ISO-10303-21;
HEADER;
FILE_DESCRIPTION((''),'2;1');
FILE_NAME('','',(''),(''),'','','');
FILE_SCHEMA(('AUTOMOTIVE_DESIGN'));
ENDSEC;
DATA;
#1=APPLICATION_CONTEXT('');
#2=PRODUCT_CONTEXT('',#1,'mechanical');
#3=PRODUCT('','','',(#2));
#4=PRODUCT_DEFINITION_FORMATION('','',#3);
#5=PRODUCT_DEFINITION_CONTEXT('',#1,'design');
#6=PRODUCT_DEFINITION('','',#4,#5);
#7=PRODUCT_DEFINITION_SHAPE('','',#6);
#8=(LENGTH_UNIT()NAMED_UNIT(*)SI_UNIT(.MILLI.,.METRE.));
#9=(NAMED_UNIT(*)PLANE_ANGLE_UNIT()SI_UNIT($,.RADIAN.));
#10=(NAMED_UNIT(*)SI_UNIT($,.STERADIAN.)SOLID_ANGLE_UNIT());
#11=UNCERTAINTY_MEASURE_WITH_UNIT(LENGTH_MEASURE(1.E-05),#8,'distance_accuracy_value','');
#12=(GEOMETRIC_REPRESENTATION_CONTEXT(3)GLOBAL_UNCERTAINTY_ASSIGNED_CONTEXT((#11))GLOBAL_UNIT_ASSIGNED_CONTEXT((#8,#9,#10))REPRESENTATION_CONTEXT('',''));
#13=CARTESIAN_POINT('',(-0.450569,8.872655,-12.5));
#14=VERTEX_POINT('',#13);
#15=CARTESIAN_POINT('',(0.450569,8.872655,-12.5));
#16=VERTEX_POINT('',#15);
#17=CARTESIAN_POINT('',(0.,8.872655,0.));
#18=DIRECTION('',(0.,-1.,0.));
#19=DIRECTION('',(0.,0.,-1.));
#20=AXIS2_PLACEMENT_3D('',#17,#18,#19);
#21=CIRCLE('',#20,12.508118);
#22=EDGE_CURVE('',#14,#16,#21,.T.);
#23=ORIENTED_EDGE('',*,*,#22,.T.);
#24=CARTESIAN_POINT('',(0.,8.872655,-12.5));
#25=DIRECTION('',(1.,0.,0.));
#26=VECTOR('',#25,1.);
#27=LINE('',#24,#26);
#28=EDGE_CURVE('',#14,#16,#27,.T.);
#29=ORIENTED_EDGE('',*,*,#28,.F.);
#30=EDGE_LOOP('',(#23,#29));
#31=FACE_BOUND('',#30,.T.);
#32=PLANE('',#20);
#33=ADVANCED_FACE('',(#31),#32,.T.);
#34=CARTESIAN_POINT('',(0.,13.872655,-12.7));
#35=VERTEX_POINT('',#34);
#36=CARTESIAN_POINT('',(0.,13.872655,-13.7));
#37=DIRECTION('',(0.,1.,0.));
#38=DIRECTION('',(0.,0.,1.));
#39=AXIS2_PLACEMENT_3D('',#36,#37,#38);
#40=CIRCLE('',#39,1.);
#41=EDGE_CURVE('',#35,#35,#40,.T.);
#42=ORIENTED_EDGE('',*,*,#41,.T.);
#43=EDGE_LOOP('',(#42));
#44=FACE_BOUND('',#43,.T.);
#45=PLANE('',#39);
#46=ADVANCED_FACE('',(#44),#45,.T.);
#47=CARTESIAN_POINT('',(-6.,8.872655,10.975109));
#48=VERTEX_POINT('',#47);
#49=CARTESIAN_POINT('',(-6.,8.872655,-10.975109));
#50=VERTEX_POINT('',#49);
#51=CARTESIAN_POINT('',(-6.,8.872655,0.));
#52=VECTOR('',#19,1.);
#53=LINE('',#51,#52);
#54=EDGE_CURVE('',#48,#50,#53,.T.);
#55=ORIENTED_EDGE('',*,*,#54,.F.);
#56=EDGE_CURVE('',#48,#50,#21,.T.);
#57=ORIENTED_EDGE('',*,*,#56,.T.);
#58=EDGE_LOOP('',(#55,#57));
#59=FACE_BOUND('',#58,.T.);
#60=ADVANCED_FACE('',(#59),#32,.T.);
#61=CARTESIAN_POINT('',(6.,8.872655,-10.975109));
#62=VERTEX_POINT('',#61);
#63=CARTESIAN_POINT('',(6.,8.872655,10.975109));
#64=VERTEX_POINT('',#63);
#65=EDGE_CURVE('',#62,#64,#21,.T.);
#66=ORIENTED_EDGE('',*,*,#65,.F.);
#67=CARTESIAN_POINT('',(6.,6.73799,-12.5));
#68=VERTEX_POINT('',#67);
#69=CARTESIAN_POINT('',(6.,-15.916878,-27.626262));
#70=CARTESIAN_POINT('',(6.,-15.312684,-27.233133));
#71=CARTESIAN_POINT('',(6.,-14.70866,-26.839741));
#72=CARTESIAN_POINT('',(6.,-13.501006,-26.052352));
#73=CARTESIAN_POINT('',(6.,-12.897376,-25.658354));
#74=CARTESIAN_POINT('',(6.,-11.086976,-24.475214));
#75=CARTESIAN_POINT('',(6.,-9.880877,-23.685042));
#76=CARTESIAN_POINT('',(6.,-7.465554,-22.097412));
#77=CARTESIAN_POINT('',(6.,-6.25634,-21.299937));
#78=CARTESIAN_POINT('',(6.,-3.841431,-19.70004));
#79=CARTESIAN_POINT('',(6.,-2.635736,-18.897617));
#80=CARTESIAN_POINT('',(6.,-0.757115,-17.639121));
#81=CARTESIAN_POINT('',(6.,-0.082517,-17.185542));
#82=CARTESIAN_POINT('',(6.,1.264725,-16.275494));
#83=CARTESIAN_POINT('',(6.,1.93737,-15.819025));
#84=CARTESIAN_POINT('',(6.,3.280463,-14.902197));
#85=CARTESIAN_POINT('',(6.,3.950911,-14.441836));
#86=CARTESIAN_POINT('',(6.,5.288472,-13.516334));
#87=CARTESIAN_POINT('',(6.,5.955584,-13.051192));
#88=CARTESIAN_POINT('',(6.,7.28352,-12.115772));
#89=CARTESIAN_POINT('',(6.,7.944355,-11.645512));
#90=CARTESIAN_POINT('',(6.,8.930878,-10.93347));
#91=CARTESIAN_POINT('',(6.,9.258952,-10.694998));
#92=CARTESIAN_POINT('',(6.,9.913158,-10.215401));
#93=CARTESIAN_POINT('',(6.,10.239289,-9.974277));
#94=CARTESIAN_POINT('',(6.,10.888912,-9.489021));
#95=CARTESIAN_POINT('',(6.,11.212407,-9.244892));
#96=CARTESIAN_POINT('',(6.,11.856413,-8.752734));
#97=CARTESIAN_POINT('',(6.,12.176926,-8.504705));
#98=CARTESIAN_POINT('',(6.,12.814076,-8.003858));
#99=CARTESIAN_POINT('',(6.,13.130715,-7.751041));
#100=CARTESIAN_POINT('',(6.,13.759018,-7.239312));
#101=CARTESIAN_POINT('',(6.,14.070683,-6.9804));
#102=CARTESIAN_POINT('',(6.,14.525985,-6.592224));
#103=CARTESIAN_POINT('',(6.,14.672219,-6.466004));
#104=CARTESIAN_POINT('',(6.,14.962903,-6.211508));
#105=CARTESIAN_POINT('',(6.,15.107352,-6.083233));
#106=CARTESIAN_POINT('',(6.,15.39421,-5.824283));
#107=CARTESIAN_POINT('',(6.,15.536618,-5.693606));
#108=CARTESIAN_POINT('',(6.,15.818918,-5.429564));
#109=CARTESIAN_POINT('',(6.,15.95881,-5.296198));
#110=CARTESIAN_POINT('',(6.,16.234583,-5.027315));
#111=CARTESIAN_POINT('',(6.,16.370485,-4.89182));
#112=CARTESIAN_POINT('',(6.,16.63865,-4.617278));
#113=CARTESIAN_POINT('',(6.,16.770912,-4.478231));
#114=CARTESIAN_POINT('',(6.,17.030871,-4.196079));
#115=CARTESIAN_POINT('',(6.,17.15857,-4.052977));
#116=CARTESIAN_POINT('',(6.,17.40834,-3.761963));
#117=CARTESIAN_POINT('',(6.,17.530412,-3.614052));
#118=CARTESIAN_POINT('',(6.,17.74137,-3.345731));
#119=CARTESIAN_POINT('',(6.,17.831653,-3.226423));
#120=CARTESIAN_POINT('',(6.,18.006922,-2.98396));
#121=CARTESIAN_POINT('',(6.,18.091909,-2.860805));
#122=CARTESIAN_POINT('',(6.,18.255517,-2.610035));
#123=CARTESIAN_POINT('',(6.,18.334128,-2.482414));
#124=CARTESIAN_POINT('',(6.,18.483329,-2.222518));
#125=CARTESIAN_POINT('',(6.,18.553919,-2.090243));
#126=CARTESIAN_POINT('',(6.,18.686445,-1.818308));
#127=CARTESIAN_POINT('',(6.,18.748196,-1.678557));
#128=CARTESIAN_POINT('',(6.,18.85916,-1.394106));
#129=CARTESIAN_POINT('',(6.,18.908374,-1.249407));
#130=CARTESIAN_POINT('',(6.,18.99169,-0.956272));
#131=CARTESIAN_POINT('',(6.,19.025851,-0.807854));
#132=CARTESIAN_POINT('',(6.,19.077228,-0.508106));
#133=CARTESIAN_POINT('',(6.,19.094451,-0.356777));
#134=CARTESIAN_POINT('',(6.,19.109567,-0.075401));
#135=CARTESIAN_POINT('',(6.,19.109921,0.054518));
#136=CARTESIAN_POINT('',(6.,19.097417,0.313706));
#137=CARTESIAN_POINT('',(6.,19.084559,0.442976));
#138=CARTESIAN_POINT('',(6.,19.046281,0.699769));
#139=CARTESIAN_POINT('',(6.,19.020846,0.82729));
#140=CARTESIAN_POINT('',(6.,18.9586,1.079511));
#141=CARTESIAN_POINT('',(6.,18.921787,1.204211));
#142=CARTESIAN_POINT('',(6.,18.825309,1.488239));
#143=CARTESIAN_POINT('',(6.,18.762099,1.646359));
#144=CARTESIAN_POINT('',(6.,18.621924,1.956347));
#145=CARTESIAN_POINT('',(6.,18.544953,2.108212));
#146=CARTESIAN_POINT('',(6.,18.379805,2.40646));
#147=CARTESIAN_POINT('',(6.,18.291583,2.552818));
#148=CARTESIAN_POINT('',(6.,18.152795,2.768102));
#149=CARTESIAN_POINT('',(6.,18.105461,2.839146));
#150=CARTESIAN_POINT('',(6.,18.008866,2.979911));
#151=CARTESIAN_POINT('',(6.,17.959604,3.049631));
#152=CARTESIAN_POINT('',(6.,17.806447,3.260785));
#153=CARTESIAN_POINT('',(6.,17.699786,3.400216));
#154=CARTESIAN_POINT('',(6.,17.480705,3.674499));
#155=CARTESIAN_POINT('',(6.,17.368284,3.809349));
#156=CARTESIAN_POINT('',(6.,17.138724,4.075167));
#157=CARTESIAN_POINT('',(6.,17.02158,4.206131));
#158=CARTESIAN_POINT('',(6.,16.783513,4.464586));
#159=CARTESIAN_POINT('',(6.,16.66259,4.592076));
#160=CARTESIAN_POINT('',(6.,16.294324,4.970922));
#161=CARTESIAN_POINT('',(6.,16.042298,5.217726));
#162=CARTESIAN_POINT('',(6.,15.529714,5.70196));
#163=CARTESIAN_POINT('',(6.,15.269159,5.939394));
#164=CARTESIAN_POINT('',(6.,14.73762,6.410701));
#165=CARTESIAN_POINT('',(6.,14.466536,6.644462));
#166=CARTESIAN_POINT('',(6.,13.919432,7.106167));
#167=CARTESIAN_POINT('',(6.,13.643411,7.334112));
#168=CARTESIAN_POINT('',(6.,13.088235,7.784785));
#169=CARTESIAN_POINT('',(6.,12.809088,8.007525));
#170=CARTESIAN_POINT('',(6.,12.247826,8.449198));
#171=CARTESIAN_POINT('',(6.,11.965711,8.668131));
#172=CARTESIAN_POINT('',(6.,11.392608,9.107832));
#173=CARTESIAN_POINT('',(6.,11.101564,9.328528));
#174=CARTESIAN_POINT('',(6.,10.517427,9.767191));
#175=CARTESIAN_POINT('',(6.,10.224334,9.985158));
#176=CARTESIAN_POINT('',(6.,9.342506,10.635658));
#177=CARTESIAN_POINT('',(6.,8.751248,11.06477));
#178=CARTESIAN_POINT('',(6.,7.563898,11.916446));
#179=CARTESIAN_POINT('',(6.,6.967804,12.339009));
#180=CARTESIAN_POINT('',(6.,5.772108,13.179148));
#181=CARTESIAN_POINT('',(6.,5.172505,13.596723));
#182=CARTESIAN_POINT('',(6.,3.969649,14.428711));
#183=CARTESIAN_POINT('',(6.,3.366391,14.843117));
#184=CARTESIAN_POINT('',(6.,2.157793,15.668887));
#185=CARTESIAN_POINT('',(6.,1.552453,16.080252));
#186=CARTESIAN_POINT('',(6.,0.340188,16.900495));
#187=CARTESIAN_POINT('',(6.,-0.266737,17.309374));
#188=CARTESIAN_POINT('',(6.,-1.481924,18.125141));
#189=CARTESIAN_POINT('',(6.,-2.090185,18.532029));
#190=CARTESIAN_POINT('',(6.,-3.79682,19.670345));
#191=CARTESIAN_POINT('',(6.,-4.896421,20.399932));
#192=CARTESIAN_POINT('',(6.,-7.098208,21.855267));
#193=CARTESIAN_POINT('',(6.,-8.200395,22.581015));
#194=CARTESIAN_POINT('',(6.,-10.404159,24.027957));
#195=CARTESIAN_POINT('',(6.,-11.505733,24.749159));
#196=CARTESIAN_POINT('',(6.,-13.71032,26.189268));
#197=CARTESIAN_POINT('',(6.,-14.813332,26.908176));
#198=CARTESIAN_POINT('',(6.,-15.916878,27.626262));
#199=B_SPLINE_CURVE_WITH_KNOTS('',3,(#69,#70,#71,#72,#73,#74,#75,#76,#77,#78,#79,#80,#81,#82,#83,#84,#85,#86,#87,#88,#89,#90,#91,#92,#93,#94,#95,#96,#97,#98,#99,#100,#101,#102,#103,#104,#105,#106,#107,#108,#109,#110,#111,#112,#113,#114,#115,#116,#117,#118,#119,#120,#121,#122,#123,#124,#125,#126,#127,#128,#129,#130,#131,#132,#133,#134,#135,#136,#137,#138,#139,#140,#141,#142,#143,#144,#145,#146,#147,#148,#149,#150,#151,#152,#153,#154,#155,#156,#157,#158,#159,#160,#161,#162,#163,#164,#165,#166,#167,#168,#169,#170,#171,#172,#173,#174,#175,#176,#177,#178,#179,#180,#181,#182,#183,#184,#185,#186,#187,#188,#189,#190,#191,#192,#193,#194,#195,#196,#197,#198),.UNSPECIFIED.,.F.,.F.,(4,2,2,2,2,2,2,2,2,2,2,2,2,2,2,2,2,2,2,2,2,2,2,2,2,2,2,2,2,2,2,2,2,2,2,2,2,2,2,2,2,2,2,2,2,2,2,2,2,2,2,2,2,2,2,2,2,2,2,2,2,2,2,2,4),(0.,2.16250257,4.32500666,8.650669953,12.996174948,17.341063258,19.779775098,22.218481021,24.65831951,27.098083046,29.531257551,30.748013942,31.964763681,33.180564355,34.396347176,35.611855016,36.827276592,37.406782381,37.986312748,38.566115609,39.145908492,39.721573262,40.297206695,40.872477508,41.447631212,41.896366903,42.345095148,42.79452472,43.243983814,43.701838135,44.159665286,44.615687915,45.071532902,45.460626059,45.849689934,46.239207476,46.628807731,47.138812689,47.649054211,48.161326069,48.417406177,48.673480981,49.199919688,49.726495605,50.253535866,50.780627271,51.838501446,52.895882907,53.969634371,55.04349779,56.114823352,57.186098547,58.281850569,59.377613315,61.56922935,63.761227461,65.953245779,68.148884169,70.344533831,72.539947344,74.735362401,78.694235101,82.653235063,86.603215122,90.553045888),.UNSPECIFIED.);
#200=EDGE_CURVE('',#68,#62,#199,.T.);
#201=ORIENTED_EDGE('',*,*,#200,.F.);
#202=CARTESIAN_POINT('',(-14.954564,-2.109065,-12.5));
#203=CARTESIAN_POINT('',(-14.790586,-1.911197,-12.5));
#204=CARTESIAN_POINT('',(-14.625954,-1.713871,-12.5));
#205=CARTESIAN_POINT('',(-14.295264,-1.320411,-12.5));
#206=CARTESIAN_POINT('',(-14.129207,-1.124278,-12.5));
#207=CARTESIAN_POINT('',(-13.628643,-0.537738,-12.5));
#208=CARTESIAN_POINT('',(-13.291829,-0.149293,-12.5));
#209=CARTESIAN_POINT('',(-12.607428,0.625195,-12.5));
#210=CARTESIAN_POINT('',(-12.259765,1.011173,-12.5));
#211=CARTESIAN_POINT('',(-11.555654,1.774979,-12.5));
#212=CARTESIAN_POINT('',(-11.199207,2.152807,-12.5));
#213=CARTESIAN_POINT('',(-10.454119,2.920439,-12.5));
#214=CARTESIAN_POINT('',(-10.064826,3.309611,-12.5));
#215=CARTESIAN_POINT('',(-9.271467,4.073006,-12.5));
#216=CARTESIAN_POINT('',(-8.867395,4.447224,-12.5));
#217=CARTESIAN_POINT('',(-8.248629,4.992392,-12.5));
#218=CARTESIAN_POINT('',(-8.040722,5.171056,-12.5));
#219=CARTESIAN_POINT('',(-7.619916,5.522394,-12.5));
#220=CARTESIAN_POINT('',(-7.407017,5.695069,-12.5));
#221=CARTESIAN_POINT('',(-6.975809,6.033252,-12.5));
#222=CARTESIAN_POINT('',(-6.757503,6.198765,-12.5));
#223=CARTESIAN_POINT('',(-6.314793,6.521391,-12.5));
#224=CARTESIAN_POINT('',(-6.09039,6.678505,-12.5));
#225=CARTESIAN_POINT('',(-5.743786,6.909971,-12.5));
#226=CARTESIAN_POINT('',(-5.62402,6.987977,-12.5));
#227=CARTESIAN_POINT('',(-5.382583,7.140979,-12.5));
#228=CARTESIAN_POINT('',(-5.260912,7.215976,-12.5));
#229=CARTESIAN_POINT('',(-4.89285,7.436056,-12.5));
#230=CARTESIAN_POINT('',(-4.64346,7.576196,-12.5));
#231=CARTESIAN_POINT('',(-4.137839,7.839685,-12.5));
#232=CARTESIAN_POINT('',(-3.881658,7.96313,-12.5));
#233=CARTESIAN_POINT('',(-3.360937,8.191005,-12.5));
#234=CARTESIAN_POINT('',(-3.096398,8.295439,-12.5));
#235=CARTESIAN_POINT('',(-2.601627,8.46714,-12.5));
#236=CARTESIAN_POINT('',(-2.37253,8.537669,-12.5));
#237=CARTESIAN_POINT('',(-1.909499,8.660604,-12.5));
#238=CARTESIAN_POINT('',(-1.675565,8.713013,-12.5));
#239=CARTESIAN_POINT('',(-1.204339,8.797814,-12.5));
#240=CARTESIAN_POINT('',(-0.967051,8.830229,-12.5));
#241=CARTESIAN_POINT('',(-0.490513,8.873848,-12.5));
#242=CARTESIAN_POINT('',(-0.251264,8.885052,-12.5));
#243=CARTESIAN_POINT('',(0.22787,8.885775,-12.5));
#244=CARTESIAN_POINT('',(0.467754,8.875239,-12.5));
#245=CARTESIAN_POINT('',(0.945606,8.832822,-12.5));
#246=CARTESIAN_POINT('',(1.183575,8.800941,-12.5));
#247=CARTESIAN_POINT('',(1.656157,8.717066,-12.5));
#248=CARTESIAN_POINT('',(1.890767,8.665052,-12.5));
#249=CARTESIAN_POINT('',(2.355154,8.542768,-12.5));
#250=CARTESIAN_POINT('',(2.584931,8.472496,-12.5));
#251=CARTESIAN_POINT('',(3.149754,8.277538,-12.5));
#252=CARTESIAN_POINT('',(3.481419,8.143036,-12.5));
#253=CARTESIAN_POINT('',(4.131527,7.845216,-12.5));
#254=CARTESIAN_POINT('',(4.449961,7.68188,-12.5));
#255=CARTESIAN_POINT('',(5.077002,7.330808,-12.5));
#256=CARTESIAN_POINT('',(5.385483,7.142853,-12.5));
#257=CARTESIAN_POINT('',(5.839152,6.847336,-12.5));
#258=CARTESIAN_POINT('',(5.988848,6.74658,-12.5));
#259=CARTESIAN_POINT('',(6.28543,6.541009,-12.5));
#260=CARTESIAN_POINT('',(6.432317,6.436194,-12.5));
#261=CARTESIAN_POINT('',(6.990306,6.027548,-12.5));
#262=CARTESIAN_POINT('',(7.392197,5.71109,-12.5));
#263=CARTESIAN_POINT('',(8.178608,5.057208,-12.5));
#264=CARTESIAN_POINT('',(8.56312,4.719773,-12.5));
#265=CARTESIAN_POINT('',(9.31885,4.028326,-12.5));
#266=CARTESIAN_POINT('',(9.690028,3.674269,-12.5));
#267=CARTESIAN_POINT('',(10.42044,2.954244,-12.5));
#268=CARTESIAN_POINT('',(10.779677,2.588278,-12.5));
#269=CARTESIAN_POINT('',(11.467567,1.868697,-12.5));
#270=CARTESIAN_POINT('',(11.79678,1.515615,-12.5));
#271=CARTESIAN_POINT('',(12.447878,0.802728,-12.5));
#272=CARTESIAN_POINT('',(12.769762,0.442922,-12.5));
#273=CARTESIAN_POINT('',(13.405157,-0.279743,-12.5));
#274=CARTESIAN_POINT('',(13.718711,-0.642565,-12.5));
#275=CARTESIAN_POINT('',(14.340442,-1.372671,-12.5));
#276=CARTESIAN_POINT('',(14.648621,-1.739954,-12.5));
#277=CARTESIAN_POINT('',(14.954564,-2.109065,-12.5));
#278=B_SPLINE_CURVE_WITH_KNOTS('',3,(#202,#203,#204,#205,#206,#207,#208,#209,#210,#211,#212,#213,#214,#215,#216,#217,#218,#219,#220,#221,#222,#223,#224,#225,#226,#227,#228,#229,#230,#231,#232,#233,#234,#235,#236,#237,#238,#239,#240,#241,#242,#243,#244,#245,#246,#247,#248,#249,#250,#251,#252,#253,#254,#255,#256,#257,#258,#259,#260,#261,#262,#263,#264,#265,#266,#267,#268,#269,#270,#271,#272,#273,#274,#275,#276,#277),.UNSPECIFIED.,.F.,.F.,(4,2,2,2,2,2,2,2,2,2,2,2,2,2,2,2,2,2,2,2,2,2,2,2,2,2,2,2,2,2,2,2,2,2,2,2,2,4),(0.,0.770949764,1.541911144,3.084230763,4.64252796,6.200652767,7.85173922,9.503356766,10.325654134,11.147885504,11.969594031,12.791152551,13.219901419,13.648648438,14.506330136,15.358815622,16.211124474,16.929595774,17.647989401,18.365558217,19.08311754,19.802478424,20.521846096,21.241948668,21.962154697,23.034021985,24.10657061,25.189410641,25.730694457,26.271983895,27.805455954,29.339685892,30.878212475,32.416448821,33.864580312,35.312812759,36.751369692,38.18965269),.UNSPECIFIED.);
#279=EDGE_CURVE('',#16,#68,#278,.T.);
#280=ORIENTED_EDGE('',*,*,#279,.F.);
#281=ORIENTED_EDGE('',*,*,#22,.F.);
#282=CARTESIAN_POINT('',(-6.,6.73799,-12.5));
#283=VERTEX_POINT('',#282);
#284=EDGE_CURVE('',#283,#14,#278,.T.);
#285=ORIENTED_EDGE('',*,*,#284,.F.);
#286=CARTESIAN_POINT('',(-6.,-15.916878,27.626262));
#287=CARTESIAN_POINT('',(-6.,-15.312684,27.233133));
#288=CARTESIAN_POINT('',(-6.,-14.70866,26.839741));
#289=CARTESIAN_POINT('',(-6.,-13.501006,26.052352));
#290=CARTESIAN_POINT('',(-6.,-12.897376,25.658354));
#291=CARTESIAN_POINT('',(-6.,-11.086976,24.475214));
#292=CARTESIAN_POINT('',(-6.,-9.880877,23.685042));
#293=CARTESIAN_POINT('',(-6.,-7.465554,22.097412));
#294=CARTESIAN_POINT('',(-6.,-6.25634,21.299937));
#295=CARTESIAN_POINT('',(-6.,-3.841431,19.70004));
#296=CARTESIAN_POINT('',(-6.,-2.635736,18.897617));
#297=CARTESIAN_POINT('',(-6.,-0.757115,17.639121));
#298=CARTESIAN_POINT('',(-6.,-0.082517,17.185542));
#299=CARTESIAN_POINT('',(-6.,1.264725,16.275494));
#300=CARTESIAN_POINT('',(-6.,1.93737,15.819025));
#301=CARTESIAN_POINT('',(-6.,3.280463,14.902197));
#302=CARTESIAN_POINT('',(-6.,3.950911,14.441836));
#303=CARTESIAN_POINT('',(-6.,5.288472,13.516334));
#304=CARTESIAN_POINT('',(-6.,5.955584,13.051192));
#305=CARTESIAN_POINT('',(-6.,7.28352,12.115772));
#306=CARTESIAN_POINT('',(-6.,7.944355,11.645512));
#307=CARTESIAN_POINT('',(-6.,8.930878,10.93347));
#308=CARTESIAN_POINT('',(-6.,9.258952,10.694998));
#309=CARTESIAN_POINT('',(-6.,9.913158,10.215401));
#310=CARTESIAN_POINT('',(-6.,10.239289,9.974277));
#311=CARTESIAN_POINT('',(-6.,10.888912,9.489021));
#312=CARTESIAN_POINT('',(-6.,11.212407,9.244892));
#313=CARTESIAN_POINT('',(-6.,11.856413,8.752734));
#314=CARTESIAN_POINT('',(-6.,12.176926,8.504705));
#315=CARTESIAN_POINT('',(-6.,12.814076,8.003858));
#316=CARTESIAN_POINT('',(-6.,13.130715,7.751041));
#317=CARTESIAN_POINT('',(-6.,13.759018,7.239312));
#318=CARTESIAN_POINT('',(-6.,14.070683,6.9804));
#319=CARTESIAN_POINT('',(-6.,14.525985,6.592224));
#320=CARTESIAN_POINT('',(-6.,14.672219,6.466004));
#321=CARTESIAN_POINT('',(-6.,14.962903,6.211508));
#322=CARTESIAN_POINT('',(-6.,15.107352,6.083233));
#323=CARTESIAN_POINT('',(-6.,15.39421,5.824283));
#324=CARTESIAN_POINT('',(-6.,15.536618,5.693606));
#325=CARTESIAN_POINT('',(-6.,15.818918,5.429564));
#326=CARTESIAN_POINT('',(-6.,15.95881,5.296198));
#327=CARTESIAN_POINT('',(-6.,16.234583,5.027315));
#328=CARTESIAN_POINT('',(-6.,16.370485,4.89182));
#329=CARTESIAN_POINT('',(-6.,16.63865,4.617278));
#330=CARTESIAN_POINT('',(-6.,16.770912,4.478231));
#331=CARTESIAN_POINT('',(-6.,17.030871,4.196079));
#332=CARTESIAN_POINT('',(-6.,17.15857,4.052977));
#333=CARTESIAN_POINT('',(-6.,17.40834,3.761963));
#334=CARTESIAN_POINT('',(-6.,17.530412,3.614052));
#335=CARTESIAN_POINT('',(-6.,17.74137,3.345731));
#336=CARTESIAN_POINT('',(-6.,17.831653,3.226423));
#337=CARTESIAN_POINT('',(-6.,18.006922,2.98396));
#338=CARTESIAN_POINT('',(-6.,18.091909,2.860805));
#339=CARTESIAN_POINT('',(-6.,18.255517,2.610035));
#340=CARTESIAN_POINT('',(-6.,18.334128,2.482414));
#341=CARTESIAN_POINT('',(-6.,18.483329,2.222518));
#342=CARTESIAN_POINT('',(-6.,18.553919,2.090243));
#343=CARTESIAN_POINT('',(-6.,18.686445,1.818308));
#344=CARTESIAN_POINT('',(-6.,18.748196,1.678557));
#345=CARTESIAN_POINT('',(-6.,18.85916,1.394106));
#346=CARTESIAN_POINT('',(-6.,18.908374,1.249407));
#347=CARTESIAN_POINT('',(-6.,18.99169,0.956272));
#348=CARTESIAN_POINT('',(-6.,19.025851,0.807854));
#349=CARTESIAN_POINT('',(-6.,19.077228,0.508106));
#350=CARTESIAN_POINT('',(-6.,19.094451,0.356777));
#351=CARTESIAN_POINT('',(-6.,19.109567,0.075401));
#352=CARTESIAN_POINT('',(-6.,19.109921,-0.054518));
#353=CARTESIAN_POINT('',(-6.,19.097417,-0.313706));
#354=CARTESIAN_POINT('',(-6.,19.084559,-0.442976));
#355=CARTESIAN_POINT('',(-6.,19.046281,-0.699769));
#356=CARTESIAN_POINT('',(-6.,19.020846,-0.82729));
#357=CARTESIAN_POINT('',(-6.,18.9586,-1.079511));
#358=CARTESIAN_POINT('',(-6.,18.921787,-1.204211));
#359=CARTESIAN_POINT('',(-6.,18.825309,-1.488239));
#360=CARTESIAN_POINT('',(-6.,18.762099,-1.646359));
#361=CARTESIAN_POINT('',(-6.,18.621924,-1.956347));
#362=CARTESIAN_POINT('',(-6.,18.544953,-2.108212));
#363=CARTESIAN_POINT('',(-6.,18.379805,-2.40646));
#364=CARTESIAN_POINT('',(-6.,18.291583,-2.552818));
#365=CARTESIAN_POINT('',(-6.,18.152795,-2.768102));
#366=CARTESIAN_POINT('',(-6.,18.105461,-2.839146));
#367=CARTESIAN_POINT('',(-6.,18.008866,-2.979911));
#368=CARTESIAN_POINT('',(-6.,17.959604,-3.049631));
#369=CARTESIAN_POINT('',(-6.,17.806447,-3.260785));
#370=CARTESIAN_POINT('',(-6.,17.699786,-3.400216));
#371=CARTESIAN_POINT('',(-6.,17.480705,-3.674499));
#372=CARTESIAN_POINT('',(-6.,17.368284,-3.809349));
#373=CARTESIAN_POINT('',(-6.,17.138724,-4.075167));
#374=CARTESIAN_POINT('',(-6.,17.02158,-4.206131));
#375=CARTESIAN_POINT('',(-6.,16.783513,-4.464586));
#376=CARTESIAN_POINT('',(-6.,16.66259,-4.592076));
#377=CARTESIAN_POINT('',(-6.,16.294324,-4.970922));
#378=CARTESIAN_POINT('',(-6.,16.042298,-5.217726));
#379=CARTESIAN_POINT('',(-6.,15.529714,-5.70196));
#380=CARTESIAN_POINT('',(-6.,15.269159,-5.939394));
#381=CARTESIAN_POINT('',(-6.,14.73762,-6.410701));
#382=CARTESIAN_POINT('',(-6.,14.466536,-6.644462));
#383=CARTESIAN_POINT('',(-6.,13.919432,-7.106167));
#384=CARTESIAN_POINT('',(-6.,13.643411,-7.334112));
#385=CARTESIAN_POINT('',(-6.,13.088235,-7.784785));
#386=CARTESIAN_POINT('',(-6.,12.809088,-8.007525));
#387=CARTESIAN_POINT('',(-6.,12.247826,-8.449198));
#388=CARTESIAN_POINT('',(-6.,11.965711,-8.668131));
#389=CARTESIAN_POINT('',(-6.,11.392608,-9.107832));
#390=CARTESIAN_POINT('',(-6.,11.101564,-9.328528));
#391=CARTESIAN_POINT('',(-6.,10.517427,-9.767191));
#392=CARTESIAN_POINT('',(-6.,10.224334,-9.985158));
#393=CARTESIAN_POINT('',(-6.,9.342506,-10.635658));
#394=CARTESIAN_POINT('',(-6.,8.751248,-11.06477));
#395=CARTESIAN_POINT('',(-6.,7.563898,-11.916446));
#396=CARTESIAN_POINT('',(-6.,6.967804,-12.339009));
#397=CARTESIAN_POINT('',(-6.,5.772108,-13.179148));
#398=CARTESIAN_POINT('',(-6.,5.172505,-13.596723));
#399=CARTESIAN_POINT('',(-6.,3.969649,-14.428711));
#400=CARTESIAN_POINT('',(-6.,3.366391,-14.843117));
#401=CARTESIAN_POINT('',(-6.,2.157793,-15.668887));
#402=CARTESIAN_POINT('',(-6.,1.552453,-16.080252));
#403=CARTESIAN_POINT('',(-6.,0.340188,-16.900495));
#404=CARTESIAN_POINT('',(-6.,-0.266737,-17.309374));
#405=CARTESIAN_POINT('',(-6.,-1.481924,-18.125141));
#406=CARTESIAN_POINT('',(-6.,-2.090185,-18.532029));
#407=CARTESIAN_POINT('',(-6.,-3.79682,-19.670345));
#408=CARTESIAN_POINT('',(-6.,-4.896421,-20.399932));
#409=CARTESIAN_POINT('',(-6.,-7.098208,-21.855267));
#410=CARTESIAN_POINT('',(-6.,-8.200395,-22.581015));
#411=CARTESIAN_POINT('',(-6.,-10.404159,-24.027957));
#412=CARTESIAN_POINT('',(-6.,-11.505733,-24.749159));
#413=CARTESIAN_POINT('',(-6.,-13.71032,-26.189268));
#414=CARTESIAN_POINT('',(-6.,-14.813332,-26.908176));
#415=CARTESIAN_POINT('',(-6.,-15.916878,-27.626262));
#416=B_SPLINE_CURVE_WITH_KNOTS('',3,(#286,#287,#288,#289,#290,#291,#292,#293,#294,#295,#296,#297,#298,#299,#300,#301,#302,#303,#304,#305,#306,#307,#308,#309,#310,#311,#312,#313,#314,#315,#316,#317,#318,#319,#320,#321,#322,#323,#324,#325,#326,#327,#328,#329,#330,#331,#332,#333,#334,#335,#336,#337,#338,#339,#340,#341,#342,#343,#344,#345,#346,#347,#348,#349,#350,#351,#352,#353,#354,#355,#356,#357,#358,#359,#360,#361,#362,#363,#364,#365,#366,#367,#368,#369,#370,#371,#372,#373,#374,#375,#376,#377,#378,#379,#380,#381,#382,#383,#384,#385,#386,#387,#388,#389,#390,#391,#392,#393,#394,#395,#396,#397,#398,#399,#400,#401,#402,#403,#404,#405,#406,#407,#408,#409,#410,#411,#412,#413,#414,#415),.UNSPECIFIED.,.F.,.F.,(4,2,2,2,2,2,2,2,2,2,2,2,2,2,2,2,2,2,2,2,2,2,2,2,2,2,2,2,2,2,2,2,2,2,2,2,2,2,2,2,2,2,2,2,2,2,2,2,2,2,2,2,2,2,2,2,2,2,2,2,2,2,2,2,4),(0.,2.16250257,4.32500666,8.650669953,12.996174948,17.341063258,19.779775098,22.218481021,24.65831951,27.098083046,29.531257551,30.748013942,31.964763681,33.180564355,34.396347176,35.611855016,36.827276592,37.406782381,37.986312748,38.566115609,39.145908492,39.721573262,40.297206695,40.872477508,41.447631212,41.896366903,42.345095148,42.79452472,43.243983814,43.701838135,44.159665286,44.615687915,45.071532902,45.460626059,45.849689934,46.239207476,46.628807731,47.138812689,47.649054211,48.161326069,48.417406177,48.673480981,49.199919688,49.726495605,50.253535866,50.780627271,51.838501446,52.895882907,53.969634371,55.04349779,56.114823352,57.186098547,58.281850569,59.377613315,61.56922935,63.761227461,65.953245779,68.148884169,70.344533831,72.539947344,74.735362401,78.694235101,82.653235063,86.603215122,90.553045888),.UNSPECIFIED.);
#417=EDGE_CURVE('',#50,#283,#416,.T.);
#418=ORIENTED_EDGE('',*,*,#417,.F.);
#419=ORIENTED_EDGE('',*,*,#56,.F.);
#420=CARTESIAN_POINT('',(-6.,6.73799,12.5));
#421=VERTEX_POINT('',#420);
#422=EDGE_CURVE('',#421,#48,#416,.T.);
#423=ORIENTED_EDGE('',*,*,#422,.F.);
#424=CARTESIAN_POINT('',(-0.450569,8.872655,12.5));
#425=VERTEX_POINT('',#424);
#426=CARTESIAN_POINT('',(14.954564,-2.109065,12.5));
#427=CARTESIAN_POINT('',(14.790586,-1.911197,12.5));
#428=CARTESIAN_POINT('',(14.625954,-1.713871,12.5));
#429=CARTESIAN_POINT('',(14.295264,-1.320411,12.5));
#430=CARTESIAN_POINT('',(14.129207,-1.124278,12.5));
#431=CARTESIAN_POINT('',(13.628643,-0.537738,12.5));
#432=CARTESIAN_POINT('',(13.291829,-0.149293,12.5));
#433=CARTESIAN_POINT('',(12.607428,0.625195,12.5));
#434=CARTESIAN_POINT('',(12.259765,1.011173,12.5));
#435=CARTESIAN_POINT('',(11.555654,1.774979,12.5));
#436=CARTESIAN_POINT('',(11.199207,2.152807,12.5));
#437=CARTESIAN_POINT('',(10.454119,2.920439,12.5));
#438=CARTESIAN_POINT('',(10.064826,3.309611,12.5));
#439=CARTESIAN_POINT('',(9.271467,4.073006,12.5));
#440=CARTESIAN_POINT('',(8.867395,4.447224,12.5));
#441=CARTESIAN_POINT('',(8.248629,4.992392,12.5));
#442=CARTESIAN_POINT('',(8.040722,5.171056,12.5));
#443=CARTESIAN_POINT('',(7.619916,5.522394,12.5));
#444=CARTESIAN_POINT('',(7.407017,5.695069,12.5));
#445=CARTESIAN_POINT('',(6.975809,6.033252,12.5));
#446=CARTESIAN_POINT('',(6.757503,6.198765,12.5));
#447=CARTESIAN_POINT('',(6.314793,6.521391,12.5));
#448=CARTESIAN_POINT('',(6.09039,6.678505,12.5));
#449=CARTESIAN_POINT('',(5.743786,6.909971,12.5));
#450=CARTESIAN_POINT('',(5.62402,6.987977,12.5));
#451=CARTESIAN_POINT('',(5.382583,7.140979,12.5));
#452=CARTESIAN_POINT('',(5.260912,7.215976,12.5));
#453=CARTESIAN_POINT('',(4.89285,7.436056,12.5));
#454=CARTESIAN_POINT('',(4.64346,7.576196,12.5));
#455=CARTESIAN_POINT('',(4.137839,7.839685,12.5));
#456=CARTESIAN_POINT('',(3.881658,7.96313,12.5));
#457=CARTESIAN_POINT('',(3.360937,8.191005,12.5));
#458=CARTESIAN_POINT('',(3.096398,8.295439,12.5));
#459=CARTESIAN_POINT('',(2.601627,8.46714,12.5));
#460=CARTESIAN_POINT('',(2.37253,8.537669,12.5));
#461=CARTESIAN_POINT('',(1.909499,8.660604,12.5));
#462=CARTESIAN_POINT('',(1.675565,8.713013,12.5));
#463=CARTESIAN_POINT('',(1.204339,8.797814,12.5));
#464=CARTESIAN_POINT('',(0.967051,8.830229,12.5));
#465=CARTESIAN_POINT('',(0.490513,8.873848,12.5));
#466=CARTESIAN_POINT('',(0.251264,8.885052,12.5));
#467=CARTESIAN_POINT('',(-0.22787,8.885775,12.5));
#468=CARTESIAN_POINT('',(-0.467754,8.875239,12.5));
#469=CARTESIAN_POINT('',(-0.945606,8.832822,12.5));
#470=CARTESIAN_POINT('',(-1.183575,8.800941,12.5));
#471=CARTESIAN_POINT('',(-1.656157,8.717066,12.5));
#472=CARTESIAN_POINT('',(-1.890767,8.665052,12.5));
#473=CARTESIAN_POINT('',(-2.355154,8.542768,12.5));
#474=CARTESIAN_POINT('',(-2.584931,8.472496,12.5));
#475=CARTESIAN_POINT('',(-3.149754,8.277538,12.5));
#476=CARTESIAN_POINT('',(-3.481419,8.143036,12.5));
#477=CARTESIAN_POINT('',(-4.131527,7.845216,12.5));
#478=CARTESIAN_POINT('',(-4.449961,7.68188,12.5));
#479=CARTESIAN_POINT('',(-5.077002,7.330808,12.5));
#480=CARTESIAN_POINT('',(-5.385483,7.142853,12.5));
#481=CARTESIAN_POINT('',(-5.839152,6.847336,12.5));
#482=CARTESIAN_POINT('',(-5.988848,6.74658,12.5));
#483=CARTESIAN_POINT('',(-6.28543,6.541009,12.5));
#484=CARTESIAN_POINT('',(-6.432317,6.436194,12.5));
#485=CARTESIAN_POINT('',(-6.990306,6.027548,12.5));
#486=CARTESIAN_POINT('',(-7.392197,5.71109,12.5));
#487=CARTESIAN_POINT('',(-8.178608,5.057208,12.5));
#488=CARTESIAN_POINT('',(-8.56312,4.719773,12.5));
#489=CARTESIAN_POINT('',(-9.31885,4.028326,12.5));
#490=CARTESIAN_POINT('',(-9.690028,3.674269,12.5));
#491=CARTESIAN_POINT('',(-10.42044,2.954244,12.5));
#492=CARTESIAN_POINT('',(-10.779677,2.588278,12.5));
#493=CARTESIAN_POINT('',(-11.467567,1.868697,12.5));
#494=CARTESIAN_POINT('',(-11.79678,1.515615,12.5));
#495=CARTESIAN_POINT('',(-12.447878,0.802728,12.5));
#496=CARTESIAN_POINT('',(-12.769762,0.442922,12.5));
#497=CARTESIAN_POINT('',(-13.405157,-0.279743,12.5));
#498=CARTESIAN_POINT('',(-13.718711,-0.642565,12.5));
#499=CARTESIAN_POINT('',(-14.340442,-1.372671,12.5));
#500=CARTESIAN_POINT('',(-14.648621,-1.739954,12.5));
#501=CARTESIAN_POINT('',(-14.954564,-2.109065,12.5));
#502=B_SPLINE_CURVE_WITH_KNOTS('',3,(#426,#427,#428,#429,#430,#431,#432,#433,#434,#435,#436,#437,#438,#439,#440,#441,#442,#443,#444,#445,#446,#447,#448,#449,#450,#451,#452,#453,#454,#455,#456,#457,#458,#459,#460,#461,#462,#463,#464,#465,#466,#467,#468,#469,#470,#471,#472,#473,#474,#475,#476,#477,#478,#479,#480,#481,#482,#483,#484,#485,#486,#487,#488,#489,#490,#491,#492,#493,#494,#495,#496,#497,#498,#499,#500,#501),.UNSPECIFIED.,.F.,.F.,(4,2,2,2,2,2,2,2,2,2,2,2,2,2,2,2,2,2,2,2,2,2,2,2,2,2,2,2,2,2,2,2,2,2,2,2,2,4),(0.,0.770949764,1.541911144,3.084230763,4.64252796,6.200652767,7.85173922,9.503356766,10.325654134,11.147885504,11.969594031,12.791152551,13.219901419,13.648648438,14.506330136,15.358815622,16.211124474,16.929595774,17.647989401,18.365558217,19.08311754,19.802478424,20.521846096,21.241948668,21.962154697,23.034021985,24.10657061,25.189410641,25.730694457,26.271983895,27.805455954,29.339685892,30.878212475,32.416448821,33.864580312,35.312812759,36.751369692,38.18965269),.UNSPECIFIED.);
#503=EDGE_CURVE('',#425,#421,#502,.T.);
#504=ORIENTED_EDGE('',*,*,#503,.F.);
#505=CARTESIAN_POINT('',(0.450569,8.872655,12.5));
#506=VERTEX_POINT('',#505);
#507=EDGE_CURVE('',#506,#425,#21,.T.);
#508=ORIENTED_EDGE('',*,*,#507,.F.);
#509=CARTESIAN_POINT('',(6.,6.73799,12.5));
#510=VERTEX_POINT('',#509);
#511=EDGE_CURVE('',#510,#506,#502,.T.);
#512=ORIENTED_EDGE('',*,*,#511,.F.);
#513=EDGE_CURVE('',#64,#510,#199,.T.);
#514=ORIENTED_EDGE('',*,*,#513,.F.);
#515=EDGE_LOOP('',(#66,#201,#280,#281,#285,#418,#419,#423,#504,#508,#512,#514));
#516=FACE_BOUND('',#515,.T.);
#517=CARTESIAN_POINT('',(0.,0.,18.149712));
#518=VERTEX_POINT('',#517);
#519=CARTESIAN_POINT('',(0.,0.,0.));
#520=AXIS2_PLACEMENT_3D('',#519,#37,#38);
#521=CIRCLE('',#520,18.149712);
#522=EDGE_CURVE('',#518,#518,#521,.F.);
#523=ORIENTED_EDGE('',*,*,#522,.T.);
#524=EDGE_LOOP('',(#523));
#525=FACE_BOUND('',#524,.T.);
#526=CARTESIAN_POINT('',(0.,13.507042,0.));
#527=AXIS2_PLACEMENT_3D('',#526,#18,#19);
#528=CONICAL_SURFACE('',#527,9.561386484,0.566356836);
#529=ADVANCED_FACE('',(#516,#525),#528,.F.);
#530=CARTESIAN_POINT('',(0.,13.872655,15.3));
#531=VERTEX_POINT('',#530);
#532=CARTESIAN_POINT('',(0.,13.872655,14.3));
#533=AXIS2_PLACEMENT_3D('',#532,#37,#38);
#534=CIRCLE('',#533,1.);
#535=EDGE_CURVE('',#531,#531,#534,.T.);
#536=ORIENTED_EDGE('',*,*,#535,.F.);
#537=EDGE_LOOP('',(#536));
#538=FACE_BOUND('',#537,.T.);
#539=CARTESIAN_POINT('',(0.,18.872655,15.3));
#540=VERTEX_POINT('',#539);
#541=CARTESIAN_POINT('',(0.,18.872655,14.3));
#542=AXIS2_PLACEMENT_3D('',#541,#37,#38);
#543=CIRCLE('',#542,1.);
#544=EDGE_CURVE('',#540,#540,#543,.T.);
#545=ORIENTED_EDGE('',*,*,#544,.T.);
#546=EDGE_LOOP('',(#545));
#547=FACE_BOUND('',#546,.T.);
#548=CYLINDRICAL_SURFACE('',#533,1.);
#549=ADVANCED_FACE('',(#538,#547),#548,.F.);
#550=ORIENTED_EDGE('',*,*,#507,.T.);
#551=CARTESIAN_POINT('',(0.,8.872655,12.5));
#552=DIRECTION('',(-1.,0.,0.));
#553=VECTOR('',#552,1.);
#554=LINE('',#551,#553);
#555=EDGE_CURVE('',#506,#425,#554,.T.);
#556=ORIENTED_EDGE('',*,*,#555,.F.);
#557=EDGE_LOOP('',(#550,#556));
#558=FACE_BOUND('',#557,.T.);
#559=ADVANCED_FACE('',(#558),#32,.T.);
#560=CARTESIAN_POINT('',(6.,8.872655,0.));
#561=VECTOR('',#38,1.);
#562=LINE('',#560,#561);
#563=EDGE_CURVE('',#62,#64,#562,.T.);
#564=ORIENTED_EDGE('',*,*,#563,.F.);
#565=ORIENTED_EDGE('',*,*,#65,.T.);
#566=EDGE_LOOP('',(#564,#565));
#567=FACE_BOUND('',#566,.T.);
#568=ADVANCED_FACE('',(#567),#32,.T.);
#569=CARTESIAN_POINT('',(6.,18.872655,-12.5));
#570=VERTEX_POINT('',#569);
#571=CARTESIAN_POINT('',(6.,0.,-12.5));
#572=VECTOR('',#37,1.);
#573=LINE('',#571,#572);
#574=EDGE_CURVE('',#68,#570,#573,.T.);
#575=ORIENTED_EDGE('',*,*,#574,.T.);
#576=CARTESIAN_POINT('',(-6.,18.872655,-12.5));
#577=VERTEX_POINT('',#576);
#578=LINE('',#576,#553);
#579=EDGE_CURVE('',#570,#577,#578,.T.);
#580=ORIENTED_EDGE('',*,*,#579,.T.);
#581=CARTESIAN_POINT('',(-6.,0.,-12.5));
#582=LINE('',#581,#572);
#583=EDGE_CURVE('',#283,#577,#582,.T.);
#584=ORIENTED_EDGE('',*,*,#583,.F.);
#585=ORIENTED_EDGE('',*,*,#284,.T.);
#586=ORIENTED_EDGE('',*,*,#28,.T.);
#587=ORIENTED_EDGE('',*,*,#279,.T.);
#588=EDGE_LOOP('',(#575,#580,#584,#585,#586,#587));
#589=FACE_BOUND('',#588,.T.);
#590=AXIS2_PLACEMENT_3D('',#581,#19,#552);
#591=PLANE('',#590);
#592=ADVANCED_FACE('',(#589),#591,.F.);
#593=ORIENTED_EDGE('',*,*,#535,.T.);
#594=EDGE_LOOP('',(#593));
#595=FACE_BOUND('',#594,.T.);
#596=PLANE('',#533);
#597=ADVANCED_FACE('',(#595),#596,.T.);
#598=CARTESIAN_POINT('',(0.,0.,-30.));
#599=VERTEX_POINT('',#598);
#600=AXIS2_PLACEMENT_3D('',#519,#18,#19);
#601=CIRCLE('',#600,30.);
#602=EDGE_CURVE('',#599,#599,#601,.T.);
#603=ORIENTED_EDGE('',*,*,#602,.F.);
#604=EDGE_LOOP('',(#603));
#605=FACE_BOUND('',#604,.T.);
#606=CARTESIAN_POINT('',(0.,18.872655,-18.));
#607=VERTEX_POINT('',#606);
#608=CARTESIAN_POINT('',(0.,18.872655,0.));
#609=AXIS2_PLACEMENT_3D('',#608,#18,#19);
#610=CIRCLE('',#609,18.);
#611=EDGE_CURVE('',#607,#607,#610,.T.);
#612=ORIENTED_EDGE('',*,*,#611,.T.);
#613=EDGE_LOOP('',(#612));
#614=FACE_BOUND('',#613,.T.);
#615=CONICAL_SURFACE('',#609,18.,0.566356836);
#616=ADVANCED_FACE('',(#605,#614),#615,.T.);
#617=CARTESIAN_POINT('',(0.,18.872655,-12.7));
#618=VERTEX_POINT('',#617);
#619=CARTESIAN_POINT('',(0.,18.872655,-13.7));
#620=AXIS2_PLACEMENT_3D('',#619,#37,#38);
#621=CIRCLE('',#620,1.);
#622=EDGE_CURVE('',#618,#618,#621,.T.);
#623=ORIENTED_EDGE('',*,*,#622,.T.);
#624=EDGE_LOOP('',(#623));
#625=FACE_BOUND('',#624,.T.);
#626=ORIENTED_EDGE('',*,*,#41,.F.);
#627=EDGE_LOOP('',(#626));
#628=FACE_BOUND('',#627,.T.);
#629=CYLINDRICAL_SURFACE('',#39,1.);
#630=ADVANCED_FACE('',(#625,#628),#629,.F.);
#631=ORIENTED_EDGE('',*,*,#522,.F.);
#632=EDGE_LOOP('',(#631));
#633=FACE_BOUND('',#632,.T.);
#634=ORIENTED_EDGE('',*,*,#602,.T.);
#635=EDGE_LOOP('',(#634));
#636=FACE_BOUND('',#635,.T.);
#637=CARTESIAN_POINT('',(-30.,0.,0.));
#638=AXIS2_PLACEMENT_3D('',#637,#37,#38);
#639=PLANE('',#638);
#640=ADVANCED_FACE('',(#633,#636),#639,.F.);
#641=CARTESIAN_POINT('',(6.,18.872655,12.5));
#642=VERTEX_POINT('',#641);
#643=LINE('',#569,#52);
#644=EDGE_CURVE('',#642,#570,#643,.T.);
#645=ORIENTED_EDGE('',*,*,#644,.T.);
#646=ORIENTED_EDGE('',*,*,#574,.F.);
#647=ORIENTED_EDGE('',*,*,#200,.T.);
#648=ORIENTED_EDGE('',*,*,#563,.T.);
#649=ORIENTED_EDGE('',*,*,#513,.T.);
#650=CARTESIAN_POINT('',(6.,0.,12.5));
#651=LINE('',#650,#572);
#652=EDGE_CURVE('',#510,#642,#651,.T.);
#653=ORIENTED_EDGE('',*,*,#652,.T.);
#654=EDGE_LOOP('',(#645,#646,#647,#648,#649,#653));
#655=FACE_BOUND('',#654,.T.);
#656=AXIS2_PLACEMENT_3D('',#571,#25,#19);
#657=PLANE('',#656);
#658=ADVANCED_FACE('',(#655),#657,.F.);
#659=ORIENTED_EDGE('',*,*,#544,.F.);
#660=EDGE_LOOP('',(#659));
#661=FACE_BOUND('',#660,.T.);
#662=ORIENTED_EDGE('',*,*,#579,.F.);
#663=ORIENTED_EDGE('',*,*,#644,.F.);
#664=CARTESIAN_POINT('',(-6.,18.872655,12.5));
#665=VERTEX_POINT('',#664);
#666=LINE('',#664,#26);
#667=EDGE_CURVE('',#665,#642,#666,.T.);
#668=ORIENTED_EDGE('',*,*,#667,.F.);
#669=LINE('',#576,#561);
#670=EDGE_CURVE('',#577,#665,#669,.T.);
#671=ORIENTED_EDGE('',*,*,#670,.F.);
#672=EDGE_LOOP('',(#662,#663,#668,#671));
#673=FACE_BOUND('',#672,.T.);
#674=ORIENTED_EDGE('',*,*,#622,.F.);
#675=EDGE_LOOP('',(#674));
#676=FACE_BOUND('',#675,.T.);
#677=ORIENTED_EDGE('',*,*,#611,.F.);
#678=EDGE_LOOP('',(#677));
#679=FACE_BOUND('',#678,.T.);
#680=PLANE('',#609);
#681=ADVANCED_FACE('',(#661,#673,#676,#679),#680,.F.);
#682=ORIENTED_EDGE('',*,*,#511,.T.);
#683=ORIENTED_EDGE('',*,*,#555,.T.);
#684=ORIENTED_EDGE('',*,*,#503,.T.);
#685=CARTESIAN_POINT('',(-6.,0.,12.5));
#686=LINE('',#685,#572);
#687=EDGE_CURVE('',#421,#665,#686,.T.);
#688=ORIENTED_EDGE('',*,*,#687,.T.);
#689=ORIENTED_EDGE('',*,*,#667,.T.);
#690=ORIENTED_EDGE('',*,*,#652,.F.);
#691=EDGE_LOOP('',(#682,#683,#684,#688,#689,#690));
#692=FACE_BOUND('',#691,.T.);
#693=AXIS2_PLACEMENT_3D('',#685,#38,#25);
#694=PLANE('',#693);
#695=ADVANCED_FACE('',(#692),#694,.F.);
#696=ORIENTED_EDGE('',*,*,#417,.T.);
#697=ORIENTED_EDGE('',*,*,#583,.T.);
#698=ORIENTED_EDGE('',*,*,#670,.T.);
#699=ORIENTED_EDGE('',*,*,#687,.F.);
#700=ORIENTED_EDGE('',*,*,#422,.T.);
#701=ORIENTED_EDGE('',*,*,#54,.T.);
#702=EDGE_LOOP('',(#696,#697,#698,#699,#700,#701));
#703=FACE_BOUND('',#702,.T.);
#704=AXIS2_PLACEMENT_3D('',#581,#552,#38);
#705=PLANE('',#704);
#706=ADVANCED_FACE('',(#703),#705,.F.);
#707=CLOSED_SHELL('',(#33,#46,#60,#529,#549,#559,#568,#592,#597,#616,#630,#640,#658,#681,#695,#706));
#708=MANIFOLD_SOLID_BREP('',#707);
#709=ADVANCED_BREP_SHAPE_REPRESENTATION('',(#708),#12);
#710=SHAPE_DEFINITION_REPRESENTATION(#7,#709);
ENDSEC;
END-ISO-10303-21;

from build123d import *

# Parameters (mm, degrees)
SHELL2_T           = -10
SKETCH6_W          = 12
SKETCH6_H          = 25
CUT_EXTRUDE2_DEPTH = 47.434654221
SKETCH7_R          = 1
CUT_EXTRUDE3_DEPTH = 5


with BuildPart() as part:
    # Sketch5 → Revolve3 (revolve)
    with BuildSketch(Plane.XY, mode=Mode.PRIVATE) as revolve3_sk:
        Polygon((0, 0), (0, 18.872655155), (-18, 18.872655155), (-30, 0), align=None)
    revolve(revolve3_sk.sketch.rotate(Axis((0, 0, 0), (0, 1, 0)), 270), axis=Axis((0, 0, 0), (0, 1, 0)))

    # Shell2
    shell2_openings = [part.faces().sort_by_distance(p)[0] for p in [
        (0, 0, 0),
    ]]
    offset(amount=SHELL2_T, openings=shell2_openings, kind=Kind.INTERSECTION)

    # Sketch6 → Cut-Extrude2 (cut, through all)
    with BuildSketch(Plane(origin=(0, 18.872655155, 0), x_dir=(1, 0, 0), z_dir=(0, 1, 0))):
        Rectangle(SKETCH6_W, SKETCH6_H)
    extrude(amount=-CUT_EXTRUDE2_DEPTH, mode=Mode.SUBTRACT)

    # Sketch7 → Cut-Extrude3 (cut)
    with BuildSketch(Plane(origin=(0, 18.872655155, 0), x_dir=(1, 0, 0), z_dir=(0, 1, 0))):
        with Locations(Location((0, 13.7, 0), (0, 0, 270))):
            Circle(SKETCH7_R)
        with Locations(Location((0, -14.3, 0), (0, 0, 270))):
            Circle(SKETCH7_R)
    extrude(amount=-CUT_EXTRUDE3_DEPTH, mode=Mode.SUBTRACT)


solid = part.part
